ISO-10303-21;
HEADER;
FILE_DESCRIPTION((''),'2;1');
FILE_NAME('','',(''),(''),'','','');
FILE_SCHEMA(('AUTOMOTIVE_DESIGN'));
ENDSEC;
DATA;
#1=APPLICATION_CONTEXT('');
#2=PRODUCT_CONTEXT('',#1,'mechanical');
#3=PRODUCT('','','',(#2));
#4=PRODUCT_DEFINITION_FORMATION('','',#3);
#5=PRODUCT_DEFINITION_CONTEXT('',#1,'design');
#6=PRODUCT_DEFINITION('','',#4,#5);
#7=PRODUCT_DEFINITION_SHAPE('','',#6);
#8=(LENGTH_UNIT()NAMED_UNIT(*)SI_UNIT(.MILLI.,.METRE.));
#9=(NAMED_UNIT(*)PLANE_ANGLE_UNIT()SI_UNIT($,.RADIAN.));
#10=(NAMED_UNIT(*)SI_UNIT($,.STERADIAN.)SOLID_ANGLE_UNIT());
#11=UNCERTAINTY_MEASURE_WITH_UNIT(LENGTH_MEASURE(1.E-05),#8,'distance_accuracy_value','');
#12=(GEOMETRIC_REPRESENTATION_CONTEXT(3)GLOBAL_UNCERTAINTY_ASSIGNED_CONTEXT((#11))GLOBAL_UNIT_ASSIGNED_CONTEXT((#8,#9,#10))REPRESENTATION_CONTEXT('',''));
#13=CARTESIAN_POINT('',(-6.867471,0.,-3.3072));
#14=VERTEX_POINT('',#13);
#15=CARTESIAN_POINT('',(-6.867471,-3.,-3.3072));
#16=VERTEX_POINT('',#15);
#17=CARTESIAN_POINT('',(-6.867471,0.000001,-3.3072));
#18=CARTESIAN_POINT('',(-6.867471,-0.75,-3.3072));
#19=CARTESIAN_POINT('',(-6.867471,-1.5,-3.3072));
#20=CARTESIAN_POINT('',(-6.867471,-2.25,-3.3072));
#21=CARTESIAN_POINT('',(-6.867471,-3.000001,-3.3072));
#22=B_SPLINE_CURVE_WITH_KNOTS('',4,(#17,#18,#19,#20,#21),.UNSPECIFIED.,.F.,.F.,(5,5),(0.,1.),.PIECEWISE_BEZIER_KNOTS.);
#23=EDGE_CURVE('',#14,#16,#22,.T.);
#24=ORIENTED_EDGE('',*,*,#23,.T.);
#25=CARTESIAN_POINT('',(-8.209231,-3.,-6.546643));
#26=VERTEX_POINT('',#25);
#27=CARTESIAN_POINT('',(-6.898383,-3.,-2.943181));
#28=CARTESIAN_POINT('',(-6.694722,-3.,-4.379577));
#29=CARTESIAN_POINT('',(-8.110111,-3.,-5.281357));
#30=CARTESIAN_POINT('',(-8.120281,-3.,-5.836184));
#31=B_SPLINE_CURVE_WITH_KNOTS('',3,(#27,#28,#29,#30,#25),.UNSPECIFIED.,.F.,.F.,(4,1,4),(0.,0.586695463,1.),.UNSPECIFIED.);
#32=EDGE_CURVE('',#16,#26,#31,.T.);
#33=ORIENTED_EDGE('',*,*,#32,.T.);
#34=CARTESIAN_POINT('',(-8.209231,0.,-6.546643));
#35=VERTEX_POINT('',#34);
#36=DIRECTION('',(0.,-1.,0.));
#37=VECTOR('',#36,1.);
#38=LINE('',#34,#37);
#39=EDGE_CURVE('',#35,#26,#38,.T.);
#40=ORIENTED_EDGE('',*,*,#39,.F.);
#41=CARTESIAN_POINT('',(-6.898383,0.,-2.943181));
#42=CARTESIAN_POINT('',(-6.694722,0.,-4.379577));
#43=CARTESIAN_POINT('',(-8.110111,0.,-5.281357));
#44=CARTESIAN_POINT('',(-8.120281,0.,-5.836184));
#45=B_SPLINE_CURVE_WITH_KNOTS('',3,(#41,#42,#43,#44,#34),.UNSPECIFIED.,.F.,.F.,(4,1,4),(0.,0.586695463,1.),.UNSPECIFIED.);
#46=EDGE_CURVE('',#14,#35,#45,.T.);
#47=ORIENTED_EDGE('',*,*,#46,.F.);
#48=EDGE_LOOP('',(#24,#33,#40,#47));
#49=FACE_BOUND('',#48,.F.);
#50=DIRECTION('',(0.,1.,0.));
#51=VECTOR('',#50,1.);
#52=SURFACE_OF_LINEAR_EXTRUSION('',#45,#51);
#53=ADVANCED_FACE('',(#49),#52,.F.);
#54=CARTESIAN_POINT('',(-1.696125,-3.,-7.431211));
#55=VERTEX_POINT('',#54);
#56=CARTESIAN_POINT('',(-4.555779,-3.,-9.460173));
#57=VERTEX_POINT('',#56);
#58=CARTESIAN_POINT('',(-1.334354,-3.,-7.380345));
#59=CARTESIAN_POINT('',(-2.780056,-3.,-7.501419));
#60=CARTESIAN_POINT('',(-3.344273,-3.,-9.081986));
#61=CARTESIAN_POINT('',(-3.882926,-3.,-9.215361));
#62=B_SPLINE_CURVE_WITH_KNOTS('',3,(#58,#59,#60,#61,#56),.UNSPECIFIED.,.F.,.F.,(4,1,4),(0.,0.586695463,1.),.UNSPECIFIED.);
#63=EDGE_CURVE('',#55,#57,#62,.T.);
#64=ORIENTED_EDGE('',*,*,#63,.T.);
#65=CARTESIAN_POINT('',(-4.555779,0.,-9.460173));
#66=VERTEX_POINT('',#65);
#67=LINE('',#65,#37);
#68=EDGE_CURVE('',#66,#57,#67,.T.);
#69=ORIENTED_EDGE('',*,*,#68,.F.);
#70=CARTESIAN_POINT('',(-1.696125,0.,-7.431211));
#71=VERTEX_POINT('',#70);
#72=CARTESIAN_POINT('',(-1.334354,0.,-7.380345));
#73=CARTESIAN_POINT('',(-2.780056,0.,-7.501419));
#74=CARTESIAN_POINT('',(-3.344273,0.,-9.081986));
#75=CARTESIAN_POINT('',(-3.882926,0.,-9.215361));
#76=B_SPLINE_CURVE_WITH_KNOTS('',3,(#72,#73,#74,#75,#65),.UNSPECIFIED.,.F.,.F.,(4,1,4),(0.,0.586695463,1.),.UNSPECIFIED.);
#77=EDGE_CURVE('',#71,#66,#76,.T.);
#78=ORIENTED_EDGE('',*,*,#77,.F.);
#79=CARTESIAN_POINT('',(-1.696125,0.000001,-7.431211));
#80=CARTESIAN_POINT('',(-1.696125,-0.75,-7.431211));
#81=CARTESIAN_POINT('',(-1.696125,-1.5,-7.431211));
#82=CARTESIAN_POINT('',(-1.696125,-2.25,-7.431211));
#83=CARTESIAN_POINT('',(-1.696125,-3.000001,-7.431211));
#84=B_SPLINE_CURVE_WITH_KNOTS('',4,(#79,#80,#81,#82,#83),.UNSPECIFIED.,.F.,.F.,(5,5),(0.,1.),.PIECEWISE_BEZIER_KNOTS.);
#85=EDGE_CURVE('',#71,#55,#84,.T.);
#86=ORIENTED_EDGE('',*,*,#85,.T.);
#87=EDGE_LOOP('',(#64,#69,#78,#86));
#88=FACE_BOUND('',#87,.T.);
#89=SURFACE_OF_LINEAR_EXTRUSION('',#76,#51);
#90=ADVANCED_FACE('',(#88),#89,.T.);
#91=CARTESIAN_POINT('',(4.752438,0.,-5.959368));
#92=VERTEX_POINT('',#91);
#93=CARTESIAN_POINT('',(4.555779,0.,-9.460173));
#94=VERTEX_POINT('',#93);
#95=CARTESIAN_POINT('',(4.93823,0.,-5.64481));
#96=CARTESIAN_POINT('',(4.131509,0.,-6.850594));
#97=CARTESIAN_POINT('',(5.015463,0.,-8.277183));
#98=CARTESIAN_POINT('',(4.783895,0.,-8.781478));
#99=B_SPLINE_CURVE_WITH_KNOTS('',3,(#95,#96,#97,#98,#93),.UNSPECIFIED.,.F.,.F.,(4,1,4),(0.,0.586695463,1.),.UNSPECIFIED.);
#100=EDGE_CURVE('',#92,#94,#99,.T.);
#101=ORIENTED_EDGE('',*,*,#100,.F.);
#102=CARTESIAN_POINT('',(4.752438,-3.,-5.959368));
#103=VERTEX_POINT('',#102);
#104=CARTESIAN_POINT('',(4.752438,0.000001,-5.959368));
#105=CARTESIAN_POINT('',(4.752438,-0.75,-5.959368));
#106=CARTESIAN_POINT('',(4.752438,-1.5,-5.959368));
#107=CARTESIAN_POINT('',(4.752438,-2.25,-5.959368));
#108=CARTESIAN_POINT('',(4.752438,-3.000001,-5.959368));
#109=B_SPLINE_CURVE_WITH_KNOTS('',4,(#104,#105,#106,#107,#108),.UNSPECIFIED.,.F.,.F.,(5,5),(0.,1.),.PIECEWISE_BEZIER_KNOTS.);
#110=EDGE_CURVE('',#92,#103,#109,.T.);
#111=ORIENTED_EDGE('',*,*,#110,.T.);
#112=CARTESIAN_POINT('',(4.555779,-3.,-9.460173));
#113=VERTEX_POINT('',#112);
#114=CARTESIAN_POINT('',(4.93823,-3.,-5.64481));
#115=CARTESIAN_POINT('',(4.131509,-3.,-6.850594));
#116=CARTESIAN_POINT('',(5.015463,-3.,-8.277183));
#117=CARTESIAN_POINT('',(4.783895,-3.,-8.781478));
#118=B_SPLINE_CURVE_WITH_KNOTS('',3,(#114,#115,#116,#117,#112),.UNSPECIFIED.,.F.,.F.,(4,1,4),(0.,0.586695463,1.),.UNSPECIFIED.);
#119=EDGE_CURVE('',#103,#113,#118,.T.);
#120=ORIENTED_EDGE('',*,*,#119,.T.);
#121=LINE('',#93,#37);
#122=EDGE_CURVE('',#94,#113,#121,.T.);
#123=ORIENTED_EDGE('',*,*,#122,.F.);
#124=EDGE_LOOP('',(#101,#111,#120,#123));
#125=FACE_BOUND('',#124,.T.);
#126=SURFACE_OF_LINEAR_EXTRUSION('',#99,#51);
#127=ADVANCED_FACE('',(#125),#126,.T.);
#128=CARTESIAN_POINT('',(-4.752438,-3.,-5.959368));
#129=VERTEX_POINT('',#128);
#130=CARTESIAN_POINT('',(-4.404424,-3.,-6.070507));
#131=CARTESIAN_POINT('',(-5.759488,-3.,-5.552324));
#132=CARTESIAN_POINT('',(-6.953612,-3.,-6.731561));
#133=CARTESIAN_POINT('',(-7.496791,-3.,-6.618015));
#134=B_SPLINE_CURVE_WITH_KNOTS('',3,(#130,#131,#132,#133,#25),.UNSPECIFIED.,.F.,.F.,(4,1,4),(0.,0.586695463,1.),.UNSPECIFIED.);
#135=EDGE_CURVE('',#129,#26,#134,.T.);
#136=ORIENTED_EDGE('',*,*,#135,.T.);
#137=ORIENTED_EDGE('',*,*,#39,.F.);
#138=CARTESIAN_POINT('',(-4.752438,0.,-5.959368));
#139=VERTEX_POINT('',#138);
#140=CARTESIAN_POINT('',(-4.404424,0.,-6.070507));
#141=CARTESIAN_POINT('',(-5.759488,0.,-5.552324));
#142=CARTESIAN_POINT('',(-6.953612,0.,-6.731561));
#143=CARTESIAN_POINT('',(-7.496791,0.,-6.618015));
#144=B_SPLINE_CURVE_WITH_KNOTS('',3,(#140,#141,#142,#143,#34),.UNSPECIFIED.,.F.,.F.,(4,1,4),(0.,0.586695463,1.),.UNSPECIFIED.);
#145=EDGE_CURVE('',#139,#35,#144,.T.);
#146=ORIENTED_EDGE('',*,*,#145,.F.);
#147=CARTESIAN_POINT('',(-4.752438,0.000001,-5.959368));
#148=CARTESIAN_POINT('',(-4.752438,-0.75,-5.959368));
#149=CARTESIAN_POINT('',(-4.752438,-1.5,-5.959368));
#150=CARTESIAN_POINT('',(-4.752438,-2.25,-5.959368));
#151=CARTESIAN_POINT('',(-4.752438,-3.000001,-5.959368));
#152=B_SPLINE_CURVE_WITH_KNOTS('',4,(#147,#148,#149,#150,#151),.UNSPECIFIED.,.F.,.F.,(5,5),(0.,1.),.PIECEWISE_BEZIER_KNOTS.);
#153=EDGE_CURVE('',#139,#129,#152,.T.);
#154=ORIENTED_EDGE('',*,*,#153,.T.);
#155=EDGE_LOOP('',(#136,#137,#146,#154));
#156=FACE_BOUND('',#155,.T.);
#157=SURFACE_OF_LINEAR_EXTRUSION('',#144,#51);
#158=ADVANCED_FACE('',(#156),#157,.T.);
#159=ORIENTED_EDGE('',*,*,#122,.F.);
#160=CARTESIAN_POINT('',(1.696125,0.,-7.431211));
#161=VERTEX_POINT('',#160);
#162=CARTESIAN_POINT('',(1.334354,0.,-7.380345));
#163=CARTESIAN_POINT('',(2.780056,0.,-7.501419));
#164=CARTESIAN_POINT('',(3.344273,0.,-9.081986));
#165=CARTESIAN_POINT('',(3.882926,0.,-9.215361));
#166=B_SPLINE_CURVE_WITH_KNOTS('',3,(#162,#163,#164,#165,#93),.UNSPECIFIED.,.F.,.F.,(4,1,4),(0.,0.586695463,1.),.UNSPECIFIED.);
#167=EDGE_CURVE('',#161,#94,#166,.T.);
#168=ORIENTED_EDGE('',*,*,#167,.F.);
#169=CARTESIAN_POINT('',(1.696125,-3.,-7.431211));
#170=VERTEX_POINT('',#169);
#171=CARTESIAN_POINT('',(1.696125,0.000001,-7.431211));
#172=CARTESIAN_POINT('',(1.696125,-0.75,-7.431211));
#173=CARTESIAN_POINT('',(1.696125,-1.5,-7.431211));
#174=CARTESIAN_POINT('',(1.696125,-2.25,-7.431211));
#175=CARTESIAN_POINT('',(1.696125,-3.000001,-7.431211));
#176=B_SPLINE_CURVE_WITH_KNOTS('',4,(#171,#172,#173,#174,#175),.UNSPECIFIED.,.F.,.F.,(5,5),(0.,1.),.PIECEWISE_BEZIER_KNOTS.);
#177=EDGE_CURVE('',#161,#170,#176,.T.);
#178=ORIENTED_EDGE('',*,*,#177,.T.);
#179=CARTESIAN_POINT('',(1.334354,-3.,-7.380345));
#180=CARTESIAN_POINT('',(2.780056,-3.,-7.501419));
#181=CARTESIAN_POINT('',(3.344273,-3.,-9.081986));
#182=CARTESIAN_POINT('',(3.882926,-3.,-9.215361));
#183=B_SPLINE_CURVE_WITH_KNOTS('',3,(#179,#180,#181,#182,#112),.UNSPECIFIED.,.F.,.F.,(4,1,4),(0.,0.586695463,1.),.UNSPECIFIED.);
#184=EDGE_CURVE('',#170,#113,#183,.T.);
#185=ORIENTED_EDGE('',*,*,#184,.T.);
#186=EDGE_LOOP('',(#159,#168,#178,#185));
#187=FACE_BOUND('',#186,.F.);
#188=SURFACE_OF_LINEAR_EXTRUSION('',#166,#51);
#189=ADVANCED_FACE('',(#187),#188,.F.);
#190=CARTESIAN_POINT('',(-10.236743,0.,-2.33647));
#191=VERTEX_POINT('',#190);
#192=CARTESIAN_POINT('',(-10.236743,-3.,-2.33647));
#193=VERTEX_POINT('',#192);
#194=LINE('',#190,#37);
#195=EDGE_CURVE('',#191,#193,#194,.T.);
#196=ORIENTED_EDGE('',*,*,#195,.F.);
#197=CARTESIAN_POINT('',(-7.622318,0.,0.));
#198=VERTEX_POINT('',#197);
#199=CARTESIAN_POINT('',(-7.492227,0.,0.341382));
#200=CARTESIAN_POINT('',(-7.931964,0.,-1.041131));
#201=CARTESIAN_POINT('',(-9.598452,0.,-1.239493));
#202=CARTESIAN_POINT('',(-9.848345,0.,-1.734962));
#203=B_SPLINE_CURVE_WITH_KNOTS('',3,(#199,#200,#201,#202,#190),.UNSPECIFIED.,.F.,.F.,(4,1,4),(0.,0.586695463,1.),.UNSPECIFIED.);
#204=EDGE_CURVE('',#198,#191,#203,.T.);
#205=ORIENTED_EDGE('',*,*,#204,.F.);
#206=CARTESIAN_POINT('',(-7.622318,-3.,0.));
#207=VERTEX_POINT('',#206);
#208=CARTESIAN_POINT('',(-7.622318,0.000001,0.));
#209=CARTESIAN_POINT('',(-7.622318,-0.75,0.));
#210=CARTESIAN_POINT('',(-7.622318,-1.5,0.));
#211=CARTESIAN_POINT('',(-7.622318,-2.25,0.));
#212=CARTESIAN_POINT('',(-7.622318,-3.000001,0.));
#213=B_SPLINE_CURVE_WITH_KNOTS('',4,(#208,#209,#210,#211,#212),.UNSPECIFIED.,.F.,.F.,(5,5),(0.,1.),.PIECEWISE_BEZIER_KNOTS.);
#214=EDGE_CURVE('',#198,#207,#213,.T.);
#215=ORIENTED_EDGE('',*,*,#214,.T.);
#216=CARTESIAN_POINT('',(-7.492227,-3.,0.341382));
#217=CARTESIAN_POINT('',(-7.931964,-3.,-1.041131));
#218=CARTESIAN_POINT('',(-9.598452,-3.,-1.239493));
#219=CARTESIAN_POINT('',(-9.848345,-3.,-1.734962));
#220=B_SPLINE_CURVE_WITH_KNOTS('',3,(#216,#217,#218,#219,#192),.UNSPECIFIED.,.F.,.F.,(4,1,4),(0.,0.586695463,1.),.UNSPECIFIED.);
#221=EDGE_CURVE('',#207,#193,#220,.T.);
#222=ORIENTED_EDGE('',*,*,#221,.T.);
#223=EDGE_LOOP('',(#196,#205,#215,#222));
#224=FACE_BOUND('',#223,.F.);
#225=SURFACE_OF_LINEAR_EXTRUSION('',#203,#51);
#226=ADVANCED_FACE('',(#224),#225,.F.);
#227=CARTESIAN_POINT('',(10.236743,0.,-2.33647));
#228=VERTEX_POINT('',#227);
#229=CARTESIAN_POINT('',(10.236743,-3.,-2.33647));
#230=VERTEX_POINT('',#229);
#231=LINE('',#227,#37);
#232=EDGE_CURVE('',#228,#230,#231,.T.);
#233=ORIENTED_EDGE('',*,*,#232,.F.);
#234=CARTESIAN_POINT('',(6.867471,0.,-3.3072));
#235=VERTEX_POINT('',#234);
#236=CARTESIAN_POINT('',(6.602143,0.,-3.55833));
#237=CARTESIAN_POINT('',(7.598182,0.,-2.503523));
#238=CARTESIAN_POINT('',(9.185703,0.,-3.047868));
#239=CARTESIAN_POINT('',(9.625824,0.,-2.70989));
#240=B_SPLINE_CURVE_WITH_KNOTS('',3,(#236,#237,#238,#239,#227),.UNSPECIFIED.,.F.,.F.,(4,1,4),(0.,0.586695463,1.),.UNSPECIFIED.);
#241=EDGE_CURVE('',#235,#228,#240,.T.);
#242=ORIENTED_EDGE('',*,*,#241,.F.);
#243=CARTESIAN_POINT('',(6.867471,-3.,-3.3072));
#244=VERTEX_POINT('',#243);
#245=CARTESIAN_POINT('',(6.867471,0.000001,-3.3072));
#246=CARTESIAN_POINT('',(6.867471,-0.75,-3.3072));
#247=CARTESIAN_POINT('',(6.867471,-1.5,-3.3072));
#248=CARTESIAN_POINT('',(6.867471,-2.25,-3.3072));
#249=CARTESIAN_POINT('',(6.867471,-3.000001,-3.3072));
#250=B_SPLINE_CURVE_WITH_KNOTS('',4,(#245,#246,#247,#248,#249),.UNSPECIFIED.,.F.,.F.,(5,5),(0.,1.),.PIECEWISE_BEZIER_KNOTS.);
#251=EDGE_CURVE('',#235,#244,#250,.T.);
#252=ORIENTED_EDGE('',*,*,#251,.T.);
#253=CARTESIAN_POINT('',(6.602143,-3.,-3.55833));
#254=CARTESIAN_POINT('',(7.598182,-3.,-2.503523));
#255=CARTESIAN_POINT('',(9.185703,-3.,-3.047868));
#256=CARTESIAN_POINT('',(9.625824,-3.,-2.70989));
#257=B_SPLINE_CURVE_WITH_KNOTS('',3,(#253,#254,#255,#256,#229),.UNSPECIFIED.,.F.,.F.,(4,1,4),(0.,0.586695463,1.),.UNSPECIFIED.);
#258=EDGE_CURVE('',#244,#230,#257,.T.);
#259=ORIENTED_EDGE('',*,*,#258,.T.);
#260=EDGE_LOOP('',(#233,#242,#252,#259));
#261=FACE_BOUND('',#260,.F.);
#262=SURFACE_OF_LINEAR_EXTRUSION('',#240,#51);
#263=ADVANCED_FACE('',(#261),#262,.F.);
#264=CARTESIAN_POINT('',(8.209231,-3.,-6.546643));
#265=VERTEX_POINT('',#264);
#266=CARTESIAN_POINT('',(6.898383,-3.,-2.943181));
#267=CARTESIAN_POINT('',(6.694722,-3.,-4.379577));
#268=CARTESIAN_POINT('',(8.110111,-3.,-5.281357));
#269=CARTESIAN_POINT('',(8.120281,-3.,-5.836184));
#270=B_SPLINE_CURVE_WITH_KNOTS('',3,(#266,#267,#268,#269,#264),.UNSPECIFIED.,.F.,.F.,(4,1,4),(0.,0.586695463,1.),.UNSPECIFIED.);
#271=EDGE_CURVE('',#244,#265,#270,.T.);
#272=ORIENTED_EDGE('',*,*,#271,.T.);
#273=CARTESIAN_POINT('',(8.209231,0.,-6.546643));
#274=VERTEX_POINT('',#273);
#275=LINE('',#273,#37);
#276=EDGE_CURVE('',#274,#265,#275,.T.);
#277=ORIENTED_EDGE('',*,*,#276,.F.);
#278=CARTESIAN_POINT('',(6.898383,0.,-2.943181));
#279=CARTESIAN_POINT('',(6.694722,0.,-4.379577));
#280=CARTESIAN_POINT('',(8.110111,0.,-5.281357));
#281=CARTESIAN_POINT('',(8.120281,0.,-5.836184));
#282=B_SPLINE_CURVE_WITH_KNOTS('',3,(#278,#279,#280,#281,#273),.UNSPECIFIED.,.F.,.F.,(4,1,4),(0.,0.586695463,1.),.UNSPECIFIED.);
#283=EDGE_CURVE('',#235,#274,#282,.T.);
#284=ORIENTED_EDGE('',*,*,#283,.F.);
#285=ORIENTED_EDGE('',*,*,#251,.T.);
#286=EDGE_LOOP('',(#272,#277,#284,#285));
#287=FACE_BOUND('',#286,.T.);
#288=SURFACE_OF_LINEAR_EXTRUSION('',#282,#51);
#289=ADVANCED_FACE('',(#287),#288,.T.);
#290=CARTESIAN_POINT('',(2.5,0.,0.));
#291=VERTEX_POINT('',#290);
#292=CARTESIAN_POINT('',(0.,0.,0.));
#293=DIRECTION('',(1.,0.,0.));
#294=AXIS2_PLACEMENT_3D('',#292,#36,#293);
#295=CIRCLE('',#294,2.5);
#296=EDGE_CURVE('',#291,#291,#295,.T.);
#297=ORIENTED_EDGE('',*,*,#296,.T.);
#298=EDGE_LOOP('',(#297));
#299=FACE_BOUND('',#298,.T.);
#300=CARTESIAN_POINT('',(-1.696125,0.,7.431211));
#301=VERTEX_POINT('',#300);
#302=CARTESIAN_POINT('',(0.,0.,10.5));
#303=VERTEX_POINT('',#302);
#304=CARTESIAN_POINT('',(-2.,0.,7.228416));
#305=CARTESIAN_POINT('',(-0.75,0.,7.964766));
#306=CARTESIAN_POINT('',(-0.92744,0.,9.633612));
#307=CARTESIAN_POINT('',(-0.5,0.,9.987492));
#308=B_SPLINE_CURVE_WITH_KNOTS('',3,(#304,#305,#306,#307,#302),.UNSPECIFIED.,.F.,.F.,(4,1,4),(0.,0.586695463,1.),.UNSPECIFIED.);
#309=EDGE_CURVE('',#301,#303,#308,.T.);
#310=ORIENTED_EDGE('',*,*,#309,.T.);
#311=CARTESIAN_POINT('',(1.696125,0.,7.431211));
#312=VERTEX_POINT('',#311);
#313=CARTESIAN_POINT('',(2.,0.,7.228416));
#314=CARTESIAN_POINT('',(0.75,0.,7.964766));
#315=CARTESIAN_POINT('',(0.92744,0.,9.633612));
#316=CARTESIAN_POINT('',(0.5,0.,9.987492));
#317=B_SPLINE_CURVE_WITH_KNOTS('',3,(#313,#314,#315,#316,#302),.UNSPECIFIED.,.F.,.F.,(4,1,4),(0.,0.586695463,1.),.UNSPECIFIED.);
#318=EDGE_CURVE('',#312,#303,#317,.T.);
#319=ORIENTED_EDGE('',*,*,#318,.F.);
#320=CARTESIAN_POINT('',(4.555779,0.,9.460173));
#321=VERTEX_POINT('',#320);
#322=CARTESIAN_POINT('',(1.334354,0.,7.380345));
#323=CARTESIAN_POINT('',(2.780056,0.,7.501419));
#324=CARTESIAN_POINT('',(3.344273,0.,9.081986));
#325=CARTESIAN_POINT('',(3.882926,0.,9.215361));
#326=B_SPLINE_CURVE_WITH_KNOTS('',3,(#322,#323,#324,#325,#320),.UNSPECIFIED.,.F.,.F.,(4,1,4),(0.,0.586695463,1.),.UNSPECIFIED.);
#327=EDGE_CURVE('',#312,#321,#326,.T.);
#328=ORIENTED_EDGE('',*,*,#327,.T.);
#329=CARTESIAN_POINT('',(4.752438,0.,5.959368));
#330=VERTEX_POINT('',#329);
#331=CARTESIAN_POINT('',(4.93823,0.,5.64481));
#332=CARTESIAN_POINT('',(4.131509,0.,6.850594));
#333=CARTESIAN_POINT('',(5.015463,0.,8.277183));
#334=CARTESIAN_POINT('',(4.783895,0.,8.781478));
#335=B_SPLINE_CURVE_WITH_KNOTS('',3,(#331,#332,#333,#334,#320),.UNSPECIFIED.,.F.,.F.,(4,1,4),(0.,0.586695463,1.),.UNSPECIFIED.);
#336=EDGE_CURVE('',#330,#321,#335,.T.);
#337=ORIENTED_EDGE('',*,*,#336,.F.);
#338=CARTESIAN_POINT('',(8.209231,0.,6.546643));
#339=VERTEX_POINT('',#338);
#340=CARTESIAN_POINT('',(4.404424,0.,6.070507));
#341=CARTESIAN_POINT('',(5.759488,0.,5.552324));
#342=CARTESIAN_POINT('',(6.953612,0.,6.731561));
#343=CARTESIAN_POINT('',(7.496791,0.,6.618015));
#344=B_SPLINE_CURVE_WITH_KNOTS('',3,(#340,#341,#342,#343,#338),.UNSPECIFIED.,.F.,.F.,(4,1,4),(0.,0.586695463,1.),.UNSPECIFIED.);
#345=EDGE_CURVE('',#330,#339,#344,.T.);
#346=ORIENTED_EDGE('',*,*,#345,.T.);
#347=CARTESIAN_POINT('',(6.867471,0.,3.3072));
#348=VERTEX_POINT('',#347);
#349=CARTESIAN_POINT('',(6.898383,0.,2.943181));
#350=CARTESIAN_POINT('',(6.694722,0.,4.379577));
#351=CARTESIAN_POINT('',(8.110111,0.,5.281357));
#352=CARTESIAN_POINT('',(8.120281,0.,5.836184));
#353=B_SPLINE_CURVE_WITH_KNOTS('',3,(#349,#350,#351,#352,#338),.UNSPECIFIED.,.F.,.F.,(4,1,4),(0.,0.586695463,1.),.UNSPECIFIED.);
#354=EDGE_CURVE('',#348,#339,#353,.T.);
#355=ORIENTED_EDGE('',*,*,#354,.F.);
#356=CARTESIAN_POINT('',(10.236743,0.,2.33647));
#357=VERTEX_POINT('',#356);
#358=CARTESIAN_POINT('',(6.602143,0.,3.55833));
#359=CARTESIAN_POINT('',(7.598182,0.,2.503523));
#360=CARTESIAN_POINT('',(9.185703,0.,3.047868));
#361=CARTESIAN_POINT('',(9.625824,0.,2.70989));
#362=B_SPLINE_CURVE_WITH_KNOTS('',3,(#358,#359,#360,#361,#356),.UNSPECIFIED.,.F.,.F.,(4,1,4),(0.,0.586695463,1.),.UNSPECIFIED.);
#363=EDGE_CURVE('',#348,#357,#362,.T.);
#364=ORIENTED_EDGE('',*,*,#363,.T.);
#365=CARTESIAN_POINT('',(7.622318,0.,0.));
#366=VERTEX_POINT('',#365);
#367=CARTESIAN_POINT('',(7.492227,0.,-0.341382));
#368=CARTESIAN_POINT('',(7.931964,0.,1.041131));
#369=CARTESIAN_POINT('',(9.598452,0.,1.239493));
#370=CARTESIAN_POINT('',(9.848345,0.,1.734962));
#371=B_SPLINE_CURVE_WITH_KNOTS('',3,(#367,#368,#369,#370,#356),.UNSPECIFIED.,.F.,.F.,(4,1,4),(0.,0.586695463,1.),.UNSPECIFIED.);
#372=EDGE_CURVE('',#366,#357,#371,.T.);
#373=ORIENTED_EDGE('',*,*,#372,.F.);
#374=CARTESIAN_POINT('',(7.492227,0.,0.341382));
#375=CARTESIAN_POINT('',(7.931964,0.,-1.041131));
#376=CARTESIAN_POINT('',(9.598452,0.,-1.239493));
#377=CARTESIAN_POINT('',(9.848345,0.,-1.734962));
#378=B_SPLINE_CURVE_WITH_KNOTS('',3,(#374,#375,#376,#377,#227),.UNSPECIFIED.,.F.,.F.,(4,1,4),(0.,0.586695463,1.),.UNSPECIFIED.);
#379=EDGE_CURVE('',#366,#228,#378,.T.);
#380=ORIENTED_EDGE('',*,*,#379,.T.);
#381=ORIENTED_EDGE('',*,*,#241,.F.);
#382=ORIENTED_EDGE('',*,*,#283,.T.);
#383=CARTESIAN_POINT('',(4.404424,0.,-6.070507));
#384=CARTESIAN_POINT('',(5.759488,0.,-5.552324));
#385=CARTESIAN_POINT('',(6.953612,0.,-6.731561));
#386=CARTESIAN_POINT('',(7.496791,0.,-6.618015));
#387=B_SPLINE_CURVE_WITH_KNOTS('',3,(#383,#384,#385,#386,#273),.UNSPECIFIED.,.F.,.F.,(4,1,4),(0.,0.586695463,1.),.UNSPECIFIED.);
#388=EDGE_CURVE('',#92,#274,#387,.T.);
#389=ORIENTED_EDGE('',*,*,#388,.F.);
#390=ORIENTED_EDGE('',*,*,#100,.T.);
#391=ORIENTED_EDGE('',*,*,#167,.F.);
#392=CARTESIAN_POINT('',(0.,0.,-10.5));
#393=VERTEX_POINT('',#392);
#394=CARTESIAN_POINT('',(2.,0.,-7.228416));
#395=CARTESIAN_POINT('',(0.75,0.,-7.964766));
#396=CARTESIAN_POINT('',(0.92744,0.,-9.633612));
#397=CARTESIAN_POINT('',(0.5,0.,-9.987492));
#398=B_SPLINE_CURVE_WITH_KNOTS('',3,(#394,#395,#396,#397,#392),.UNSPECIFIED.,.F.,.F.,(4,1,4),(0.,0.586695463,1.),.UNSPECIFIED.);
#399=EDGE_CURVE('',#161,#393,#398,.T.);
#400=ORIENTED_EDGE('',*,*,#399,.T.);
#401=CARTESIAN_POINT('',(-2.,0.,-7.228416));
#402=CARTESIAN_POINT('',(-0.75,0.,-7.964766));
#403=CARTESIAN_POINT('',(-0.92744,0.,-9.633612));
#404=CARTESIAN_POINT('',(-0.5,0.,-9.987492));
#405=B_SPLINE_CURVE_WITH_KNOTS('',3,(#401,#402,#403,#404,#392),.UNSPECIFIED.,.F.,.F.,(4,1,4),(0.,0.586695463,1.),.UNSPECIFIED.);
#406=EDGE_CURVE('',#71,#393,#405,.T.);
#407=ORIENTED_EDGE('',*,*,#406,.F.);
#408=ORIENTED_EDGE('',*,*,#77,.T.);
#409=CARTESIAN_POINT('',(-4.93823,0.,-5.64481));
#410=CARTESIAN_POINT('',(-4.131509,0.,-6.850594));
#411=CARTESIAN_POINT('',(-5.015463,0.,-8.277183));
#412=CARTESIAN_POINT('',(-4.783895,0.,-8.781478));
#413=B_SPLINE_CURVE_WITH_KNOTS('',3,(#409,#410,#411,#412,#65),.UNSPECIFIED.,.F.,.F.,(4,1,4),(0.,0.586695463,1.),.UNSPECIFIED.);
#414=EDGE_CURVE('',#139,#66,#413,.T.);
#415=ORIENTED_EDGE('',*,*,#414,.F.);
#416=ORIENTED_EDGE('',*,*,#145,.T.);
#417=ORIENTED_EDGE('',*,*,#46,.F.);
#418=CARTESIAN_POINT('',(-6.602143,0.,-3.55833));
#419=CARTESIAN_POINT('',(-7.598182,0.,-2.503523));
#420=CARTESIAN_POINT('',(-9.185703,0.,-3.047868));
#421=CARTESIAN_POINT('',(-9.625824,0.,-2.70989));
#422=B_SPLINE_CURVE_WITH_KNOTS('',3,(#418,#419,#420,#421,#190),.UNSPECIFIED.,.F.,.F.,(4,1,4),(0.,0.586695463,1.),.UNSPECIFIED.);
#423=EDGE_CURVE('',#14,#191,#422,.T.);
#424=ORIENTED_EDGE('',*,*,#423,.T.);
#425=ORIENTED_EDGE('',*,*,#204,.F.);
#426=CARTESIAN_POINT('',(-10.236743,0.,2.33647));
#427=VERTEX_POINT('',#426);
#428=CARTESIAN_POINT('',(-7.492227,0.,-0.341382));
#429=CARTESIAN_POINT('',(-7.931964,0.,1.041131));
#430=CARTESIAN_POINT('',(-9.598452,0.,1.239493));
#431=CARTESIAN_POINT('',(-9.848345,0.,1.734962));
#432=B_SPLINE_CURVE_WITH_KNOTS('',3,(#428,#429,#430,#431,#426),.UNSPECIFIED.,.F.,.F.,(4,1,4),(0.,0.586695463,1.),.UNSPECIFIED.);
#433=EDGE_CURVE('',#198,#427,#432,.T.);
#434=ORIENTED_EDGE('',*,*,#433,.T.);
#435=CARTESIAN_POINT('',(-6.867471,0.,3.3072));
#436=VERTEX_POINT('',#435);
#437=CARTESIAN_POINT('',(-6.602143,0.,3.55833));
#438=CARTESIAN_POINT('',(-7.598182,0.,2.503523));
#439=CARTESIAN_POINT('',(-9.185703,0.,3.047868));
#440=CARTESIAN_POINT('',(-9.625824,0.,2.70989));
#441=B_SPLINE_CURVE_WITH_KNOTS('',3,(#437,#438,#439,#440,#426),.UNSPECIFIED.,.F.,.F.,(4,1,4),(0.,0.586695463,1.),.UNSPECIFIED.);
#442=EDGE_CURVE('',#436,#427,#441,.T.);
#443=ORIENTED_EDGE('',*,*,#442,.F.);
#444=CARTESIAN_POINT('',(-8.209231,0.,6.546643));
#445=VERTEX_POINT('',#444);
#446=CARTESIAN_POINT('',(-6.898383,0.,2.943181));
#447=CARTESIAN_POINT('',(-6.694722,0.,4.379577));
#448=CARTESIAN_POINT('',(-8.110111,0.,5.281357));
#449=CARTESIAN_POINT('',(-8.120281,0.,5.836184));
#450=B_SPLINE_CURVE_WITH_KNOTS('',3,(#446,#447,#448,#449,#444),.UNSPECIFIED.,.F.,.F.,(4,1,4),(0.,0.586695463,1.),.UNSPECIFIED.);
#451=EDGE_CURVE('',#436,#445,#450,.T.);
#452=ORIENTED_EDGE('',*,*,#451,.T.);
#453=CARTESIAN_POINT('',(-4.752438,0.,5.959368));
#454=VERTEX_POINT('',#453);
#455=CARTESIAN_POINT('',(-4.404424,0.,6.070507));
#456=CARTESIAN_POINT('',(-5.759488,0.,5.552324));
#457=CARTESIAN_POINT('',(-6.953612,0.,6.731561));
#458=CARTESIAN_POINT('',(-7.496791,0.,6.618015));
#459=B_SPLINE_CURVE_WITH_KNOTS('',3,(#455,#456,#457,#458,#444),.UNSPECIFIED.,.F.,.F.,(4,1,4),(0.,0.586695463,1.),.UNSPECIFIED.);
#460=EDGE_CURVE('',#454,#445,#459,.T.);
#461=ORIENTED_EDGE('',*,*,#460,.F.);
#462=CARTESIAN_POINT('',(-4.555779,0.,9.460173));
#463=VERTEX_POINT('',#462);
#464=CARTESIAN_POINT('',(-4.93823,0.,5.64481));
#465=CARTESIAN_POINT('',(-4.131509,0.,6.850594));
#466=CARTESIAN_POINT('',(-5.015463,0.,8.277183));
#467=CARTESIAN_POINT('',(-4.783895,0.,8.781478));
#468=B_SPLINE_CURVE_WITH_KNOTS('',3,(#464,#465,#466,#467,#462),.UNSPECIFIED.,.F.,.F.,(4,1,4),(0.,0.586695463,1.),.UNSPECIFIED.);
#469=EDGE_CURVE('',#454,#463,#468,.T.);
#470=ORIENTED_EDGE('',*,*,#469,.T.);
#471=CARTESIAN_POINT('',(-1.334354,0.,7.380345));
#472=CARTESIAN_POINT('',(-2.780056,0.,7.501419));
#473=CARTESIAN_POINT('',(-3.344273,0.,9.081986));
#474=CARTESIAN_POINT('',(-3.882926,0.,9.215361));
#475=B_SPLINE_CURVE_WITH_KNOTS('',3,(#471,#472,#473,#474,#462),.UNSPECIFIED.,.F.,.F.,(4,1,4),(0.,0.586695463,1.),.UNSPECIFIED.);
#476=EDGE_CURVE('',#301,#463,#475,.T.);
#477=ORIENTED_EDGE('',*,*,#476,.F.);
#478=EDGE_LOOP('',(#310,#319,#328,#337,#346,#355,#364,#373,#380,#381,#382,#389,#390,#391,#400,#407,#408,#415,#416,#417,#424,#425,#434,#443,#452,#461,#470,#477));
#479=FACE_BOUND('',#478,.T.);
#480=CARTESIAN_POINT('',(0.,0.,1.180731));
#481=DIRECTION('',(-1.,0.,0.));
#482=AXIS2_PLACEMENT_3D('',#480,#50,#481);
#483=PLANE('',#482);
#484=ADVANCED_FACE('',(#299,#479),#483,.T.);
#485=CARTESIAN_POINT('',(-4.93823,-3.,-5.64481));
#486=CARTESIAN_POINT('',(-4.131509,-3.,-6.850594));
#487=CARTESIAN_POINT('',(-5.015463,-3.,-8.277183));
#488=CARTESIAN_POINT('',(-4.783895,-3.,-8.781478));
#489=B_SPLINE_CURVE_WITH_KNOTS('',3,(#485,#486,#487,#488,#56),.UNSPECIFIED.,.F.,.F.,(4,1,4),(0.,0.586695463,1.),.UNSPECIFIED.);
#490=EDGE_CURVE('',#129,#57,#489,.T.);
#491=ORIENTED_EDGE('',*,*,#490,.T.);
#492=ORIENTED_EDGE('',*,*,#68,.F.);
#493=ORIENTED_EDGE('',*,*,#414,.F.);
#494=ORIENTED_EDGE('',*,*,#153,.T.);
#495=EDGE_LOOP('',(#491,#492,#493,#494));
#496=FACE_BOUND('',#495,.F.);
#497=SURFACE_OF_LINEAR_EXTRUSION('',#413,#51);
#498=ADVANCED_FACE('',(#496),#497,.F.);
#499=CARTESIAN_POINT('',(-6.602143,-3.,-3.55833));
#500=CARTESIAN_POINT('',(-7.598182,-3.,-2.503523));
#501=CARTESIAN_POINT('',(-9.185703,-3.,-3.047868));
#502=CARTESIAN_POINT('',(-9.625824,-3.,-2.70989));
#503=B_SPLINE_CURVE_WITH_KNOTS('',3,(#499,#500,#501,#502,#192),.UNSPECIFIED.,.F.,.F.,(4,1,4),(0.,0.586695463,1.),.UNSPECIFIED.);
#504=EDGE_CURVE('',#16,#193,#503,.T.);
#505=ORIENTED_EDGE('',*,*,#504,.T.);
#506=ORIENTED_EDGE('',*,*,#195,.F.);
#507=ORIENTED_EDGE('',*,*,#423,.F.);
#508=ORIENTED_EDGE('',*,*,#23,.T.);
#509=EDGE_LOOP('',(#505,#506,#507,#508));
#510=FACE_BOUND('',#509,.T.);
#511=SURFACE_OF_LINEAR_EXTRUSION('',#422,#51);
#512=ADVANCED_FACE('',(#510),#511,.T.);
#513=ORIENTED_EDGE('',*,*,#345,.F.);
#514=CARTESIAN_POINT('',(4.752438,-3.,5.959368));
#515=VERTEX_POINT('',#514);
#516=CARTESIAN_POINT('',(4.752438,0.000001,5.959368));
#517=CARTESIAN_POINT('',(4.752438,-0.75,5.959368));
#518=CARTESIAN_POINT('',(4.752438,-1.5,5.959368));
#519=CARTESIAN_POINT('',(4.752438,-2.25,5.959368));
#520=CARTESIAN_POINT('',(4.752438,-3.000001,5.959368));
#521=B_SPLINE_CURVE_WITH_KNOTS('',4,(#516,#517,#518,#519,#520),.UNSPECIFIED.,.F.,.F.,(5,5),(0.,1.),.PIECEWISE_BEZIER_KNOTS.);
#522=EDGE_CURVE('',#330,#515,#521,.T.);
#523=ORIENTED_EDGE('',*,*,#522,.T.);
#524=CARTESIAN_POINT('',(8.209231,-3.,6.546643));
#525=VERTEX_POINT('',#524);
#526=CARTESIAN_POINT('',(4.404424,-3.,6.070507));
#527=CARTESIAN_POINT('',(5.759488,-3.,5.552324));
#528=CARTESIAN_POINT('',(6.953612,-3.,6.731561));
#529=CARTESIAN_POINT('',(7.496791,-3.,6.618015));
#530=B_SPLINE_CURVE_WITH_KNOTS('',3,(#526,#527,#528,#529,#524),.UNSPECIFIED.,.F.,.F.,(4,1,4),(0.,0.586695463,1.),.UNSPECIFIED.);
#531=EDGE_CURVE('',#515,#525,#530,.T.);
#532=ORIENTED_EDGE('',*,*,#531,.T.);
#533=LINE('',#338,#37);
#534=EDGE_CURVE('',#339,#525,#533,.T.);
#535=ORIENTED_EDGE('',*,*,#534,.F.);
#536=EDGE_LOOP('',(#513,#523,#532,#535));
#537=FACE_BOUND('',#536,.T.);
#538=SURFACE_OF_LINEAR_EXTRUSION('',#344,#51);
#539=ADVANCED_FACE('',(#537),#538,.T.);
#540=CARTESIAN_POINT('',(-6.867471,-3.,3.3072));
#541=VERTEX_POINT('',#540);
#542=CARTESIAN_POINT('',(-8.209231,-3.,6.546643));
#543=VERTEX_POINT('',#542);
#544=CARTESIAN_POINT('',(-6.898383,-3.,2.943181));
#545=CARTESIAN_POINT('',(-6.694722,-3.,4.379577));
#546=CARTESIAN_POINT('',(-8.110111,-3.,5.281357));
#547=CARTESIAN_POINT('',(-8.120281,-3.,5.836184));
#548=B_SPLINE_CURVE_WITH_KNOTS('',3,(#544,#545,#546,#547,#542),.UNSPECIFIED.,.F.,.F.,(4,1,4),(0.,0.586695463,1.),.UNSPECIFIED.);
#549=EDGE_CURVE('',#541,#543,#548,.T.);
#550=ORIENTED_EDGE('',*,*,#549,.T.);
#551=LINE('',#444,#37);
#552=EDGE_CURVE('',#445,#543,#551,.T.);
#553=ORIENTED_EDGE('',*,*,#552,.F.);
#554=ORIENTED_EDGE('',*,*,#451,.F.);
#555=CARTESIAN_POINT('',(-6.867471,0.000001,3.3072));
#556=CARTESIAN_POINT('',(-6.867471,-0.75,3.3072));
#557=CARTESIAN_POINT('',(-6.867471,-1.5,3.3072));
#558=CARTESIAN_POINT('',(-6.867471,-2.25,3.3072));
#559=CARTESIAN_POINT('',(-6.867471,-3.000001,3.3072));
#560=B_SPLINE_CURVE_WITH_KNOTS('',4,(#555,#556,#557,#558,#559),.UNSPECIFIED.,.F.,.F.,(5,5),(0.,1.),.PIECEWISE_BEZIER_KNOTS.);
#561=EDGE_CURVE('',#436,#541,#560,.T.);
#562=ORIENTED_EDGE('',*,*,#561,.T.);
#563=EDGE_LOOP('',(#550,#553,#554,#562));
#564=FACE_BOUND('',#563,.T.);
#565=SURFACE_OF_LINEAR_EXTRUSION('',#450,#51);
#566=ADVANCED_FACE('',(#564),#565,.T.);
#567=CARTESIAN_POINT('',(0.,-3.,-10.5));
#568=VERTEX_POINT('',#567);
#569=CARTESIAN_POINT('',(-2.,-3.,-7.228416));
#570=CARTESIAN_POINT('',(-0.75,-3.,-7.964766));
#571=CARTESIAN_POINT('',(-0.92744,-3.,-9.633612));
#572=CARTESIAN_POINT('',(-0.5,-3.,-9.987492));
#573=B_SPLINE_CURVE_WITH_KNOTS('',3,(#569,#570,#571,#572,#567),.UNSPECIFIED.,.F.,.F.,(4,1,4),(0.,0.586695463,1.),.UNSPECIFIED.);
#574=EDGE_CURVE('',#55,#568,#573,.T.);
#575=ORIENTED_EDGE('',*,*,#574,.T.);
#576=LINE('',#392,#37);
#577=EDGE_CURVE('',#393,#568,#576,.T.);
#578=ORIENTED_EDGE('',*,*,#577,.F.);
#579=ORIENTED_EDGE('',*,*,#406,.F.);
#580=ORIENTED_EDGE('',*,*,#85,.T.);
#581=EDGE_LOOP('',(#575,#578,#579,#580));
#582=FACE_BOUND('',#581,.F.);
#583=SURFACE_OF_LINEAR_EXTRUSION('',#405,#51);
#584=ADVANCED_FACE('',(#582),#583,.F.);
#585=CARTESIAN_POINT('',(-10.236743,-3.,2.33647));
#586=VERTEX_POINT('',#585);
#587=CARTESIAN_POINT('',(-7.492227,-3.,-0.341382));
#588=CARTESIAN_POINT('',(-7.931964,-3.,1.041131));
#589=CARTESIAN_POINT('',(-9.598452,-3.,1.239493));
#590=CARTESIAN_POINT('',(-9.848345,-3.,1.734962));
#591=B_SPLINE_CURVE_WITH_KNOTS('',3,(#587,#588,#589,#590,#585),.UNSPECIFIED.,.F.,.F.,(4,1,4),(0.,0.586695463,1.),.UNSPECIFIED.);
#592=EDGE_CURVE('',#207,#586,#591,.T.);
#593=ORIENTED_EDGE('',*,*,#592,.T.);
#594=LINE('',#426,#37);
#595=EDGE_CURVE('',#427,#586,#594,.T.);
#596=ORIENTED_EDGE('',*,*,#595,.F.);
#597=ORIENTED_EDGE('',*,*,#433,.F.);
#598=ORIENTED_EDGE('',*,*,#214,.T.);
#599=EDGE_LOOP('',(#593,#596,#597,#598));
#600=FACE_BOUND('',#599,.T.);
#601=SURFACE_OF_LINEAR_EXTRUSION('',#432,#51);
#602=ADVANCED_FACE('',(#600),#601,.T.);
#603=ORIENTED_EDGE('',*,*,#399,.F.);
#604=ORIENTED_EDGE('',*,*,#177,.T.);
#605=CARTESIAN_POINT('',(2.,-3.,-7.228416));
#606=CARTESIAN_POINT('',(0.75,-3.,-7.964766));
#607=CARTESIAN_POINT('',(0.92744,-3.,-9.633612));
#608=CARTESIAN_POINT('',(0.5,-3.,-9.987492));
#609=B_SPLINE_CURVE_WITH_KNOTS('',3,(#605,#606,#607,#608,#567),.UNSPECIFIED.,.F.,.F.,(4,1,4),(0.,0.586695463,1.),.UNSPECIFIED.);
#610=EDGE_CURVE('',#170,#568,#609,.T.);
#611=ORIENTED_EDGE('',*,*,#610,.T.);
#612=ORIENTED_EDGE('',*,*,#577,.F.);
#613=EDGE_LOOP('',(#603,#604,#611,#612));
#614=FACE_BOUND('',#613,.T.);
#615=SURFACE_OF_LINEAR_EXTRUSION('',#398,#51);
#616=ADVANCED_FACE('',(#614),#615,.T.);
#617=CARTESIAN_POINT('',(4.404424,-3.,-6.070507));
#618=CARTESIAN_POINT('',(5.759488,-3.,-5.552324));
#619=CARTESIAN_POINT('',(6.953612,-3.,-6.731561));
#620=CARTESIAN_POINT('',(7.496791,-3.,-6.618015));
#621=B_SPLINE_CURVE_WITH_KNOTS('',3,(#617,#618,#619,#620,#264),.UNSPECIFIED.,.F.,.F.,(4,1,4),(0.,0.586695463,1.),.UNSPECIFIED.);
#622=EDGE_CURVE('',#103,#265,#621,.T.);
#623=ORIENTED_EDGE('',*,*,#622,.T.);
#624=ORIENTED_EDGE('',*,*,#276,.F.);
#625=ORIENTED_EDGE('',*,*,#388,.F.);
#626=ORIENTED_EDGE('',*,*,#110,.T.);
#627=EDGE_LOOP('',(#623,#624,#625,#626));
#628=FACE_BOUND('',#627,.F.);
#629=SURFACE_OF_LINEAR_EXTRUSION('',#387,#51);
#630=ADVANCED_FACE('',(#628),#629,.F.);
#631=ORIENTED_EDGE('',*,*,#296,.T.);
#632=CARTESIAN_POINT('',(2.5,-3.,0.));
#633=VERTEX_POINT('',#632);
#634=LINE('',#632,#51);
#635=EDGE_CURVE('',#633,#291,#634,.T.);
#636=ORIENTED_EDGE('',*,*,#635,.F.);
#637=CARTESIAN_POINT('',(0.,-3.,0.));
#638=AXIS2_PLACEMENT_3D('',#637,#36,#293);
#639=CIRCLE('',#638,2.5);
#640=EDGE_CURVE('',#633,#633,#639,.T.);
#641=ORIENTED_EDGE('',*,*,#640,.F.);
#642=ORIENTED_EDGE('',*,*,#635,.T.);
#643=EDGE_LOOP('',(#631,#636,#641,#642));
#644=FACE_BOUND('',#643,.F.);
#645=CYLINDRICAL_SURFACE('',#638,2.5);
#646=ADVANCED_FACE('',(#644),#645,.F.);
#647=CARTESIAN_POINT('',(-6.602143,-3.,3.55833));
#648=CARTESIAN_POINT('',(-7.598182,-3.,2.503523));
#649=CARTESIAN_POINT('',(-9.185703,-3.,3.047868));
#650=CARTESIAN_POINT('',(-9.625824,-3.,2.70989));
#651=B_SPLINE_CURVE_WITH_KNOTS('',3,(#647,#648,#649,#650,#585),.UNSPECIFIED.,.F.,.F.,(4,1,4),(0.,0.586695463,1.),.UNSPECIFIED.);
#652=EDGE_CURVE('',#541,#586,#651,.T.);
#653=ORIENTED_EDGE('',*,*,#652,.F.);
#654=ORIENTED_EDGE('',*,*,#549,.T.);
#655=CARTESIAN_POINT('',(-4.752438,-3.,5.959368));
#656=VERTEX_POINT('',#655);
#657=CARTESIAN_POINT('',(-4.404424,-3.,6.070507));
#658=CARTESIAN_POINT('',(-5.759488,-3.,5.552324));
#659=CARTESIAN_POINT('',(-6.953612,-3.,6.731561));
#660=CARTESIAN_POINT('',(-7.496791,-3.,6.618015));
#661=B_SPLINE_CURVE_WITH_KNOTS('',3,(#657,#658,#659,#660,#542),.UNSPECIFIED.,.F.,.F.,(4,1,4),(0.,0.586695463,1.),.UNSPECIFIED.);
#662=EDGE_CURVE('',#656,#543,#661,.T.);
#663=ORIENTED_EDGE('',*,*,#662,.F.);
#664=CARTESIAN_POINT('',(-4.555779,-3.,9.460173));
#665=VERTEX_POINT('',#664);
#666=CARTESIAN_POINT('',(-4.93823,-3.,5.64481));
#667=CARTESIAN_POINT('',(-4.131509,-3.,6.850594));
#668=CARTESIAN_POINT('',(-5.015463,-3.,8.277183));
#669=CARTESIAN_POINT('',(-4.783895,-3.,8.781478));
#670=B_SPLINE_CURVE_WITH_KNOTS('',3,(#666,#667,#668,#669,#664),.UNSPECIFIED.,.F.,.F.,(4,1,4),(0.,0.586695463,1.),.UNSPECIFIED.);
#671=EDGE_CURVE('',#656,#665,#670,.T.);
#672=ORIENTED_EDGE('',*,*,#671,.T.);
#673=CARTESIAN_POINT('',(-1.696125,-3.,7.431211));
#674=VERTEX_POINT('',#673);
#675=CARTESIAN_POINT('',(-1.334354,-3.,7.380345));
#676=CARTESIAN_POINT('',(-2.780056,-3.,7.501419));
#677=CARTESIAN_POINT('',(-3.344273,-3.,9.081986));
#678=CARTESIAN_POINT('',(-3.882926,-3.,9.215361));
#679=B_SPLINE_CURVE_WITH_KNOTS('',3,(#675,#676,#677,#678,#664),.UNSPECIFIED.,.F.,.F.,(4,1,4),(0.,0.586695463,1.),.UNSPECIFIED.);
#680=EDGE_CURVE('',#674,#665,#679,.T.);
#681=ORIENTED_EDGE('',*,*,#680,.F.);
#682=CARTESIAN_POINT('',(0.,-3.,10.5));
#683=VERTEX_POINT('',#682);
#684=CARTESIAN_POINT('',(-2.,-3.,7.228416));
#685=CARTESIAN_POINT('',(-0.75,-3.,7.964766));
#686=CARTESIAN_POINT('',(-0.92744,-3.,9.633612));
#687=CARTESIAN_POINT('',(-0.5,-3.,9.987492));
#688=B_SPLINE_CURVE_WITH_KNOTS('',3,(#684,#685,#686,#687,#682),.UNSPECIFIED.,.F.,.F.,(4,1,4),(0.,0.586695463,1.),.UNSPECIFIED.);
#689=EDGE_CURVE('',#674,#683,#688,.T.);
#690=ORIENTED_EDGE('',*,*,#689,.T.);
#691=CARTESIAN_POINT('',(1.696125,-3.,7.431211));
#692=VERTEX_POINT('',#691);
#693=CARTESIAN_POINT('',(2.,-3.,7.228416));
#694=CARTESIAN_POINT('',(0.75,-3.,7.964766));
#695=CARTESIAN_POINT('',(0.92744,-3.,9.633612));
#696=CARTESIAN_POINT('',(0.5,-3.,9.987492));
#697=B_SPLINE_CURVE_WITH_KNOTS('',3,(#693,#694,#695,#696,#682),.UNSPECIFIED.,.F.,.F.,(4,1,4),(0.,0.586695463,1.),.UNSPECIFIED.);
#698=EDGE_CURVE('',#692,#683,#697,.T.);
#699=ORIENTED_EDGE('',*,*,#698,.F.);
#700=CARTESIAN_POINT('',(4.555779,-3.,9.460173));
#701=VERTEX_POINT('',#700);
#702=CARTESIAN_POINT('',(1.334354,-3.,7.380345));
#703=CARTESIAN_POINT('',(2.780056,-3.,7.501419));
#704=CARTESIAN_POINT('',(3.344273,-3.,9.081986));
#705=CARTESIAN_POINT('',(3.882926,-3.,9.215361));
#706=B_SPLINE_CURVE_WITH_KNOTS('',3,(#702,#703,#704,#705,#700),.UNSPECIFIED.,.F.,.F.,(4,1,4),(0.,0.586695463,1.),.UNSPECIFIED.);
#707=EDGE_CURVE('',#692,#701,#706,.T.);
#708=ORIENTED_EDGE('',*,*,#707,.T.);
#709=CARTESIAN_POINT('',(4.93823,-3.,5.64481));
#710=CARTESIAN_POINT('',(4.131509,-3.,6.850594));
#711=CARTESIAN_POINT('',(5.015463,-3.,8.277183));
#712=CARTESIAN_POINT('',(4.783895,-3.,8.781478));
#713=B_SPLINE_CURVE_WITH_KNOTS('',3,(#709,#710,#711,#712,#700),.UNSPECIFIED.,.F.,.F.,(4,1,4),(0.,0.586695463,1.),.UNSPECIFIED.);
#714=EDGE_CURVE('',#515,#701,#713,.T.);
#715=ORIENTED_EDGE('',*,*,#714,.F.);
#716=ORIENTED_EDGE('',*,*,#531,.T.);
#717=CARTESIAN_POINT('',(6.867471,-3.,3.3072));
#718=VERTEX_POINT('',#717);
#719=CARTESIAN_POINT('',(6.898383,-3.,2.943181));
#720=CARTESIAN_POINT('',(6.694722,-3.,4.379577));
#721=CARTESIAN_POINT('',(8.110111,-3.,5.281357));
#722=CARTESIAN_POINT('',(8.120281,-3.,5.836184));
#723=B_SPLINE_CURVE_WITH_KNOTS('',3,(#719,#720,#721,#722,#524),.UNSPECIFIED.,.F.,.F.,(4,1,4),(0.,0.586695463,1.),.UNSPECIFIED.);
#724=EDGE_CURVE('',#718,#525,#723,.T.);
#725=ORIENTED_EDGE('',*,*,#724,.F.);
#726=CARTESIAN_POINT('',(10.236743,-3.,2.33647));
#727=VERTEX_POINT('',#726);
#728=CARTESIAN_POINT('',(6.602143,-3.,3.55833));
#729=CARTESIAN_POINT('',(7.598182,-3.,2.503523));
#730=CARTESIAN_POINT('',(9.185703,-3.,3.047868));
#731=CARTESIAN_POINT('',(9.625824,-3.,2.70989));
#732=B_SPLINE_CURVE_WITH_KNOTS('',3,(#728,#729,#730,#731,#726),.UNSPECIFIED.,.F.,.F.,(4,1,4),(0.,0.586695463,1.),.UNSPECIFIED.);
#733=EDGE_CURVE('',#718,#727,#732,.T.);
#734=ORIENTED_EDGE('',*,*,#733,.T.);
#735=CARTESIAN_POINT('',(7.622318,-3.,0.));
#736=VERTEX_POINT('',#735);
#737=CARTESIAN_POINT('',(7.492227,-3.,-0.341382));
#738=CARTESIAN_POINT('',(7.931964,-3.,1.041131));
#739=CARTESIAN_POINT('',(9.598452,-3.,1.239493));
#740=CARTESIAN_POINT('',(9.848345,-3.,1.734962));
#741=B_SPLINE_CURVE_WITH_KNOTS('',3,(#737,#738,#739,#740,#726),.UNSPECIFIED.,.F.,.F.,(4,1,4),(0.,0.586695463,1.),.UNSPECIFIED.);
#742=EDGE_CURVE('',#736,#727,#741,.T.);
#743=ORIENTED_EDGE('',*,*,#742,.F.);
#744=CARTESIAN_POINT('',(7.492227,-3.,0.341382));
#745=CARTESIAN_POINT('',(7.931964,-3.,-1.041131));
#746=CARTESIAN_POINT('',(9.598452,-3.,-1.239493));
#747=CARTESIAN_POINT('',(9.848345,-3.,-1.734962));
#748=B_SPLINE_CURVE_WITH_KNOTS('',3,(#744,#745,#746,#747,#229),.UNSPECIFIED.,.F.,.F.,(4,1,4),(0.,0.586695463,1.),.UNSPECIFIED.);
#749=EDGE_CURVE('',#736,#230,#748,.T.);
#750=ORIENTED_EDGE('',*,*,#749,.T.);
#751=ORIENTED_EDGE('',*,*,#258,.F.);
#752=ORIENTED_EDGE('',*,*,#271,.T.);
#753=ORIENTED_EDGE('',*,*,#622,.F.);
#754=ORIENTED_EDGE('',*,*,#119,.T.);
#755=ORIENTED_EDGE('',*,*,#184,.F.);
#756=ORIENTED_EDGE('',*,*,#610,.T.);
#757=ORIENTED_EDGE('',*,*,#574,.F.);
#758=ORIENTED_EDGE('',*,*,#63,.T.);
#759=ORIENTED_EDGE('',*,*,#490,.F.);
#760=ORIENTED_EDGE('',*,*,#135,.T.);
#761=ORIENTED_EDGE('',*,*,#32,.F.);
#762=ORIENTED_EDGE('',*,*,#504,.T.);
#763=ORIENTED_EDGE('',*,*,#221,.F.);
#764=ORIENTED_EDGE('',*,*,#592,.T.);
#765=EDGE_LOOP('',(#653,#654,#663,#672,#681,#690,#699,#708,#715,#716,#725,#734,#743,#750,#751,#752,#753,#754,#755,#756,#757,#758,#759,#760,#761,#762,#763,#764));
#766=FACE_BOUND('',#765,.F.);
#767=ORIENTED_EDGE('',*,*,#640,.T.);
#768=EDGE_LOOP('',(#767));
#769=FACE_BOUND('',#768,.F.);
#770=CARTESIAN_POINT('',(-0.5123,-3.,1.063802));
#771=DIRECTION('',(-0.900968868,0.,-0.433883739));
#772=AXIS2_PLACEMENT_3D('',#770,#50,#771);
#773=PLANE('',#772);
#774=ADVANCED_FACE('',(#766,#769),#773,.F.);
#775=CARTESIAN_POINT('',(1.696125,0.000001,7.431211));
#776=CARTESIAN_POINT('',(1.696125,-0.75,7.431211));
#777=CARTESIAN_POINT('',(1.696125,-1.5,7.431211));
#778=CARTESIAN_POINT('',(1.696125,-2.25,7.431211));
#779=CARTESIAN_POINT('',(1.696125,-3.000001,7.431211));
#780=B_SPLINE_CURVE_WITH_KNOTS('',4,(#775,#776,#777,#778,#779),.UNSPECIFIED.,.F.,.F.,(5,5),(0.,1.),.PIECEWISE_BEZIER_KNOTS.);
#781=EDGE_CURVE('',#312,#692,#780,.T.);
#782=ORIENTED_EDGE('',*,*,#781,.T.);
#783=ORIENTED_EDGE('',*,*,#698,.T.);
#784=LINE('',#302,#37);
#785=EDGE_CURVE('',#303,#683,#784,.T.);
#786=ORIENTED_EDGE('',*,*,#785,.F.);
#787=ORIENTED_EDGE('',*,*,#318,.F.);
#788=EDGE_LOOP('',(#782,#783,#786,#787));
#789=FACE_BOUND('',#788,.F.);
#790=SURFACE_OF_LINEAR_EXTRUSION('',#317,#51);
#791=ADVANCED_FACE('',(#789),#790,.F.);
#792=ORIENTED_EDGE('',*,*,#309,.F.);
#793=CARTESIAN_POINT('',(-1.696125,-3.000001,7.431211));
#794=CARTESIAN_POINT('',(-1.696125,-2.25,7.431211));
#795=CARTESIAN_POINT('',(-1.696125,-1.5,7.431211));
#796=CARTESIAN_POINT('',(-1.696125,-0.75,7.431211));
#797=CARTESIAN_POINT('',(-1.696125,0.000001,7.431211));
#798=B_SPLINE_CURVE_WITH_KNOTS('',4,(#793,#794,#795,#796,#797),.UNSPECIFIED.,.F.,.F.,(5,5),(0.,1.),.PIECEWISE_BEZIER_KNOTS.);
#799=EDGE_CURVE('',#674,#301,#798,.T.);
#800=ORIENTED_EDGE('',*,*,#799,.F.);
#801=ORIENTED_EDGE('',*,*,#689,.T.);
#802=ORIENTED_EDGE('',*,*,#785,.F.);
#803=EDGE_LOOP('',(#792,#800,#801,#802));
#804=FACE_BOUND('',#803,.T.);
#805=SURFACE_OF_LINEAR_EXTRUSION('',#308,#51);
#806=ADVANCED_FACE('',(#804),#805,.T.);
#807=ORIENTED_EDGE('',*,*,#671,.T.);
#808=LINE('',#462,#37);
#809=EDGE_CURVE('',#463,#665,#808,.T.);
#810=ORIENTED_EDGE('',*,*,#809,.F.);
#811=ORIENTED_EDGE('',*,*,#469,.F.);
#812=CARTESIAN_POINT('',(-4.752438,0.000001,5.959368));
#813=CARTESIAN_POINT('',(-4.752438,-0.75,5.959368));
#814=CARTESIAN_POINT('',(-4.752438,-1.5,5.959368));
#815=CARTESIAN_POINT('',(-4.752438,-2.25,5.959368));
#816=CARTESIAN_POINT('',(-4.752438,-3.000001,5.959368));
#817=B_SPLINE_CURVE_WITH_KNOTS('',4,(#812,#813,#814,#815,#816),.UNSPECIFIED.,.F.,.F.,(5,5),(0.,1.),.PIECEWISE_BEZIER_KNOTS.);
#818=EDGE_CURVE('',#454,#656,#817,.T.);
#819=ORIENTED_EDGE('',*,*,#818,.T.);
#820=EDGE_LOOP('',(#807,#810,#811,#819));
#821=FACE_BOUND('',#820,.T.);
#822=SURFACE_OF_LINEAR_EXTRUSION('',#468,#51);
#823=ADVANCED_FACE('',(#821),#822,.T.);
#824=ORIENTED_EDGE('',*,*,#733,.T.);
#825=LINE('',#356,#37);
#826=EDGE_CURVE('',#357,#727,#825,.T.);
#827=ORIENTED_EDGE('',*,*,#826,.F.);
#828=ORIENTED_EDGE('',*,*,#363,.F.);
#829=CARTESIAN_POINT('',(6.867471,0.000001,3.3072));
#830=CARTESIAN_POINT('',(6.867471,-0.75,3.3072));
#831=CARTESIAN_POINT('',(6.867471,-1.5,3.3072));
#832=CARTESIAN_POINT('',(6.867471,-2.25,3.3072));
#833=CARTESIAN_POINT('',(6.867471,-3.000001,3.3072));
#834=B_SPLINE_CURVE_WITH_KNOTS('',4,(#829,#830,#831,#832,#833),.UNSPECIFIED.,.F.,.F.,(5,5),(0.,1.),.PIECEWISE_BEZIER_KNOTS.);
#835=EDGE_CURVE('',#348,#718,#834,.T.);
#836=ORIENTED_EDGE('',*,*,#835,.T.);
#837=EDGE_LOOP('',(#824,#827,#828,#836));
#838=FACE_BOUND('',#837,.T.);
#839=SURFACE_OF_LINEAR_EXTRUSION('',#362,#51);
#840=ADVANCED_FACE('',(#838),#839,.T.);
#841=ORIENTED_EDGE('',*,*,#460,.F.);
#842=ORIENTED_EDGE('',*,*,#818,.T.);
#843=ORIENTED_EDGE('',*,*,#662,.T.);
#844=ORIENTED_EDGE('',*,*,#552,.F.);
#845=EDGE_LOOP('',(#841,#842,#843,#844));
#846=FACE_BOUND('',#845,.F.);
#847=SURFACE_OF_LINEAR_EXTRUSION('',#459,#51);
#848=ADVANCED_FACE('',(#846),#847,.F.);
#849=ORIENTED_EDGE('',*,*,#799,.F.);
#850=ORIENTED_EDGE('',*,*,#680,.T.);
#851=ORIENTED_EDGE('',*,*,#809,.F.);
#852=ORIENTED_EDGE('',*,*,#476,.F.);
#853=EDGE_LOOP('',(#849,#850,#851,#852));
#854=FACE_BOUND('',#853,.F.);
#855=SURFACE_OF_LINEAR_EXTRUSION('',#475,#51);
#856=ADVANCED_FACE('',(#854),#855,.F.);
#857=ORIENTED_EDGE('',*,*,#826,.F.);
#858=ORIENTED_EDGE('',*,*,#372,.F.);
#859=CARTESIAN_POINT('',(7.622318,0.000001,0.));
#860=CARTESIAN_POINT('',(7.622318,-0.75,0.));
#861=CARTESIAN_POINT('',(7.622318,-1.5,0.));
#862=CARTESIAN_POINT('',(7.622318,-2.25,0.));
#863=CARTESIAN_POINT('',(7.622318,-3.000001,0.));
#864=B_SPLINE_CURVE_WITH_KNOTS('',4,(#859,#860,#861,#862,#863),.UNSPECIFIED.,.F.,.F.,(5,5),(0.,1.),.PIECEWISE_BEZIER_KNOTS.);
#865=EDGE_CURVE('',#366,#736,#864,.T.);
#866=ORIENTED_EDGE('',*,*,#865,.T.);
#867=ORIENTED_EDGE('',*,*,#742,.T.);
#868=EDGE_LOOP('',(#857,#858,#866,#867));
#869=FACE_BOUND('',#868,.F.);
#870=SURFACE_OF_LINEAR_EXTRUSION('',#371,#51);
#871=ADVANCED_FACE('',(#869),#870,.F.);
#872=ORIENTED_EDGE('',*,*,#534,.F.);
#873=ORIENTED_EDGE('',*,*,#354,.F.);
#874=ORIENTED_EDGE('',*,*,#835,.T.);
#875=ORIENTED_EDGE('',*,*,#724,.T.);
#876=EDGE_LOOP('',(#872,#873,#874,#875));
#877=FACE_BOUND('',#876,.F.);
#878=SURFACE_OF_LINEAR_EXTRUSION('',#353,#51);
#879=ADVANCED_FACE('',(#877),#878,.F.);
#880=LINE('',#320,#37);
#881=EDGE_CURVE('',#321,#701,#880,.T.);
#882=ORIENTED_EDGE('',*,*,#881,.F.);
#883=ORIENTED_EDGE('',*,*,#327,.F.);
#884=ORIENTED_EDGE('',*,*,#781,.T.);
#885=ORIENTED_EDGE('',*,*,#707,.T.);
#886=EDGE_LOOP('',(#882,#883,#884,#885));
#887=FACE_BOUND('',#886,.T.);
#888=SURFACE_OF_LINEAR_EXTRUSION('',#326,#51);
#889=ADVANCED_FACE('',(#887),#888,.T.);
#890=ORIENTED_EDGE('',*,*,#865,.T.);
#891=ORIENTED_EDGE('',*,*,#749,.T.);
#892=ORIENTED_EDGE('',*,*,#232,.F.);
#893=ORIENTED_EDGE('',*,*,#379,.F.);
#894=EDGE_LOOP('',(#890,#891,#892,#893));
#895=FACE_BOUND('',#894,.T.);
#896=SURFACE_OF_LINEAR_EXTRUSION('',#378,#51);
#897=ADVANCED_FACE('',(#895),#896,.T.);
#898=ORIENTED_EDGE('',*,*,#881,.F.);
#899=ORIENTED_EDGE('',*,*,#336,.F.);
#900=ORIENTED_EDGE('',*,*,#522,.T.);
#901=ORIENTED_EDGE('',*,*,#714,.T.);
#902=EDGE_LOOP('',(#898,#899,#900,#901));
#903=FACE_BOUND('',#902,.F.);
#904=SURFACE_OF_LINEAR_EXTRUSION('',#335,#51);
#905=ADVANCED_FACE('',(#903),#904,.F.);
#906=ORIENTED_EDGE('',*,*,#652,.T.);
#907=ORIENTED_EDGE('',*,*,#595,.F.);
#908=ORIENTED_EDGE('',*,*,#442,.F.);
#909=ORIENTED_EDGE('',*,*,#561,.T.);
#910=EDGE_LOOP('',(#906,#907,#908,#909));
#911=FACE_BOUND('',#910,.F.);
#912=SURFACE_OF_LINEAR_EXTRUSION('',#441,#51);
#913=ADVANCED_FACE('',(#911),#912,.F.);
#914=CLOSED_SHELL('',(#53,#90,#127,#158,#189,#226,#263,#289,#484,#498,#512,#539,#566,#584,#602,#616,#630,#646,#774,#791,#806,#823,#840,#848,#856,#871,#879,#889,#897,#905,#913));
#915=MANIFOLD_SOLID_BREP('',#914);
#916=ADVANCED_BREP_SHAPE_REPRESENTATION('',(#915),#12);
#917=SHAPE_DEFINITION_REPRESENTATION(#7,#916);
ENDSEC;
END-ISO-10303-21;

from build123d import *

# Parameters (mm, degrees)
F1_DEPTH = 3
F3_COUNT = 14
F4_R     = 2.5
F5_DEPTH = 3


with BuildPart() as f1:
    # F0 (on Front) → F1 (new body)
    with BuildSketch(Plane.XZ):
        with BuildLine():
            add(Edge.make_bspline(
                [(-2, 7.2284161474), (-0.75, 7.964766161), (-0.9274404252, 9.6336122631), (-0.5, 9.9874921777), (0, 10.5)],
                knots=[0, 0, 0, 0, 0.5866954627, 1, 1, 1, 1], degree=3))
            ThreePointArc((-2, 7.2284161474), (0, -7.5), (2, 7.2284161474))
            add(Edge.make_bspline(
                [(2, 7.2284161474), (0.75, 7.964766161), (0.9274404252, 9.6336122631), (0.5, 9.9874921777), (0, 10.5)],
                knots=[0, 0, 0, 0, 0.5866954627, 1, 1, 1, 1], degree=3))
        make_face()
    extrude(amount=F1_DEPTH)

    # F3: F1 ×14 about axis
    f3_axis = Axis((0, 2.5461101905, 0), (0, 1, 0))


with BuildPart() as f1_1:
    add(f1.part)
    for i in range(1, F3_COUNT):
        add(f1.part.rotate(f3_axis, i * 360 / F3_COUNT))

    # F4 (on face) → F5 (cut, through all)
    with BuildSketch(Plane.XZ.offset(3)):
        Circle(F4_R)
    extrude(amount=-F5_DEPTH, mode=Mode.SUBTRACT)


solid = f1_1.part
